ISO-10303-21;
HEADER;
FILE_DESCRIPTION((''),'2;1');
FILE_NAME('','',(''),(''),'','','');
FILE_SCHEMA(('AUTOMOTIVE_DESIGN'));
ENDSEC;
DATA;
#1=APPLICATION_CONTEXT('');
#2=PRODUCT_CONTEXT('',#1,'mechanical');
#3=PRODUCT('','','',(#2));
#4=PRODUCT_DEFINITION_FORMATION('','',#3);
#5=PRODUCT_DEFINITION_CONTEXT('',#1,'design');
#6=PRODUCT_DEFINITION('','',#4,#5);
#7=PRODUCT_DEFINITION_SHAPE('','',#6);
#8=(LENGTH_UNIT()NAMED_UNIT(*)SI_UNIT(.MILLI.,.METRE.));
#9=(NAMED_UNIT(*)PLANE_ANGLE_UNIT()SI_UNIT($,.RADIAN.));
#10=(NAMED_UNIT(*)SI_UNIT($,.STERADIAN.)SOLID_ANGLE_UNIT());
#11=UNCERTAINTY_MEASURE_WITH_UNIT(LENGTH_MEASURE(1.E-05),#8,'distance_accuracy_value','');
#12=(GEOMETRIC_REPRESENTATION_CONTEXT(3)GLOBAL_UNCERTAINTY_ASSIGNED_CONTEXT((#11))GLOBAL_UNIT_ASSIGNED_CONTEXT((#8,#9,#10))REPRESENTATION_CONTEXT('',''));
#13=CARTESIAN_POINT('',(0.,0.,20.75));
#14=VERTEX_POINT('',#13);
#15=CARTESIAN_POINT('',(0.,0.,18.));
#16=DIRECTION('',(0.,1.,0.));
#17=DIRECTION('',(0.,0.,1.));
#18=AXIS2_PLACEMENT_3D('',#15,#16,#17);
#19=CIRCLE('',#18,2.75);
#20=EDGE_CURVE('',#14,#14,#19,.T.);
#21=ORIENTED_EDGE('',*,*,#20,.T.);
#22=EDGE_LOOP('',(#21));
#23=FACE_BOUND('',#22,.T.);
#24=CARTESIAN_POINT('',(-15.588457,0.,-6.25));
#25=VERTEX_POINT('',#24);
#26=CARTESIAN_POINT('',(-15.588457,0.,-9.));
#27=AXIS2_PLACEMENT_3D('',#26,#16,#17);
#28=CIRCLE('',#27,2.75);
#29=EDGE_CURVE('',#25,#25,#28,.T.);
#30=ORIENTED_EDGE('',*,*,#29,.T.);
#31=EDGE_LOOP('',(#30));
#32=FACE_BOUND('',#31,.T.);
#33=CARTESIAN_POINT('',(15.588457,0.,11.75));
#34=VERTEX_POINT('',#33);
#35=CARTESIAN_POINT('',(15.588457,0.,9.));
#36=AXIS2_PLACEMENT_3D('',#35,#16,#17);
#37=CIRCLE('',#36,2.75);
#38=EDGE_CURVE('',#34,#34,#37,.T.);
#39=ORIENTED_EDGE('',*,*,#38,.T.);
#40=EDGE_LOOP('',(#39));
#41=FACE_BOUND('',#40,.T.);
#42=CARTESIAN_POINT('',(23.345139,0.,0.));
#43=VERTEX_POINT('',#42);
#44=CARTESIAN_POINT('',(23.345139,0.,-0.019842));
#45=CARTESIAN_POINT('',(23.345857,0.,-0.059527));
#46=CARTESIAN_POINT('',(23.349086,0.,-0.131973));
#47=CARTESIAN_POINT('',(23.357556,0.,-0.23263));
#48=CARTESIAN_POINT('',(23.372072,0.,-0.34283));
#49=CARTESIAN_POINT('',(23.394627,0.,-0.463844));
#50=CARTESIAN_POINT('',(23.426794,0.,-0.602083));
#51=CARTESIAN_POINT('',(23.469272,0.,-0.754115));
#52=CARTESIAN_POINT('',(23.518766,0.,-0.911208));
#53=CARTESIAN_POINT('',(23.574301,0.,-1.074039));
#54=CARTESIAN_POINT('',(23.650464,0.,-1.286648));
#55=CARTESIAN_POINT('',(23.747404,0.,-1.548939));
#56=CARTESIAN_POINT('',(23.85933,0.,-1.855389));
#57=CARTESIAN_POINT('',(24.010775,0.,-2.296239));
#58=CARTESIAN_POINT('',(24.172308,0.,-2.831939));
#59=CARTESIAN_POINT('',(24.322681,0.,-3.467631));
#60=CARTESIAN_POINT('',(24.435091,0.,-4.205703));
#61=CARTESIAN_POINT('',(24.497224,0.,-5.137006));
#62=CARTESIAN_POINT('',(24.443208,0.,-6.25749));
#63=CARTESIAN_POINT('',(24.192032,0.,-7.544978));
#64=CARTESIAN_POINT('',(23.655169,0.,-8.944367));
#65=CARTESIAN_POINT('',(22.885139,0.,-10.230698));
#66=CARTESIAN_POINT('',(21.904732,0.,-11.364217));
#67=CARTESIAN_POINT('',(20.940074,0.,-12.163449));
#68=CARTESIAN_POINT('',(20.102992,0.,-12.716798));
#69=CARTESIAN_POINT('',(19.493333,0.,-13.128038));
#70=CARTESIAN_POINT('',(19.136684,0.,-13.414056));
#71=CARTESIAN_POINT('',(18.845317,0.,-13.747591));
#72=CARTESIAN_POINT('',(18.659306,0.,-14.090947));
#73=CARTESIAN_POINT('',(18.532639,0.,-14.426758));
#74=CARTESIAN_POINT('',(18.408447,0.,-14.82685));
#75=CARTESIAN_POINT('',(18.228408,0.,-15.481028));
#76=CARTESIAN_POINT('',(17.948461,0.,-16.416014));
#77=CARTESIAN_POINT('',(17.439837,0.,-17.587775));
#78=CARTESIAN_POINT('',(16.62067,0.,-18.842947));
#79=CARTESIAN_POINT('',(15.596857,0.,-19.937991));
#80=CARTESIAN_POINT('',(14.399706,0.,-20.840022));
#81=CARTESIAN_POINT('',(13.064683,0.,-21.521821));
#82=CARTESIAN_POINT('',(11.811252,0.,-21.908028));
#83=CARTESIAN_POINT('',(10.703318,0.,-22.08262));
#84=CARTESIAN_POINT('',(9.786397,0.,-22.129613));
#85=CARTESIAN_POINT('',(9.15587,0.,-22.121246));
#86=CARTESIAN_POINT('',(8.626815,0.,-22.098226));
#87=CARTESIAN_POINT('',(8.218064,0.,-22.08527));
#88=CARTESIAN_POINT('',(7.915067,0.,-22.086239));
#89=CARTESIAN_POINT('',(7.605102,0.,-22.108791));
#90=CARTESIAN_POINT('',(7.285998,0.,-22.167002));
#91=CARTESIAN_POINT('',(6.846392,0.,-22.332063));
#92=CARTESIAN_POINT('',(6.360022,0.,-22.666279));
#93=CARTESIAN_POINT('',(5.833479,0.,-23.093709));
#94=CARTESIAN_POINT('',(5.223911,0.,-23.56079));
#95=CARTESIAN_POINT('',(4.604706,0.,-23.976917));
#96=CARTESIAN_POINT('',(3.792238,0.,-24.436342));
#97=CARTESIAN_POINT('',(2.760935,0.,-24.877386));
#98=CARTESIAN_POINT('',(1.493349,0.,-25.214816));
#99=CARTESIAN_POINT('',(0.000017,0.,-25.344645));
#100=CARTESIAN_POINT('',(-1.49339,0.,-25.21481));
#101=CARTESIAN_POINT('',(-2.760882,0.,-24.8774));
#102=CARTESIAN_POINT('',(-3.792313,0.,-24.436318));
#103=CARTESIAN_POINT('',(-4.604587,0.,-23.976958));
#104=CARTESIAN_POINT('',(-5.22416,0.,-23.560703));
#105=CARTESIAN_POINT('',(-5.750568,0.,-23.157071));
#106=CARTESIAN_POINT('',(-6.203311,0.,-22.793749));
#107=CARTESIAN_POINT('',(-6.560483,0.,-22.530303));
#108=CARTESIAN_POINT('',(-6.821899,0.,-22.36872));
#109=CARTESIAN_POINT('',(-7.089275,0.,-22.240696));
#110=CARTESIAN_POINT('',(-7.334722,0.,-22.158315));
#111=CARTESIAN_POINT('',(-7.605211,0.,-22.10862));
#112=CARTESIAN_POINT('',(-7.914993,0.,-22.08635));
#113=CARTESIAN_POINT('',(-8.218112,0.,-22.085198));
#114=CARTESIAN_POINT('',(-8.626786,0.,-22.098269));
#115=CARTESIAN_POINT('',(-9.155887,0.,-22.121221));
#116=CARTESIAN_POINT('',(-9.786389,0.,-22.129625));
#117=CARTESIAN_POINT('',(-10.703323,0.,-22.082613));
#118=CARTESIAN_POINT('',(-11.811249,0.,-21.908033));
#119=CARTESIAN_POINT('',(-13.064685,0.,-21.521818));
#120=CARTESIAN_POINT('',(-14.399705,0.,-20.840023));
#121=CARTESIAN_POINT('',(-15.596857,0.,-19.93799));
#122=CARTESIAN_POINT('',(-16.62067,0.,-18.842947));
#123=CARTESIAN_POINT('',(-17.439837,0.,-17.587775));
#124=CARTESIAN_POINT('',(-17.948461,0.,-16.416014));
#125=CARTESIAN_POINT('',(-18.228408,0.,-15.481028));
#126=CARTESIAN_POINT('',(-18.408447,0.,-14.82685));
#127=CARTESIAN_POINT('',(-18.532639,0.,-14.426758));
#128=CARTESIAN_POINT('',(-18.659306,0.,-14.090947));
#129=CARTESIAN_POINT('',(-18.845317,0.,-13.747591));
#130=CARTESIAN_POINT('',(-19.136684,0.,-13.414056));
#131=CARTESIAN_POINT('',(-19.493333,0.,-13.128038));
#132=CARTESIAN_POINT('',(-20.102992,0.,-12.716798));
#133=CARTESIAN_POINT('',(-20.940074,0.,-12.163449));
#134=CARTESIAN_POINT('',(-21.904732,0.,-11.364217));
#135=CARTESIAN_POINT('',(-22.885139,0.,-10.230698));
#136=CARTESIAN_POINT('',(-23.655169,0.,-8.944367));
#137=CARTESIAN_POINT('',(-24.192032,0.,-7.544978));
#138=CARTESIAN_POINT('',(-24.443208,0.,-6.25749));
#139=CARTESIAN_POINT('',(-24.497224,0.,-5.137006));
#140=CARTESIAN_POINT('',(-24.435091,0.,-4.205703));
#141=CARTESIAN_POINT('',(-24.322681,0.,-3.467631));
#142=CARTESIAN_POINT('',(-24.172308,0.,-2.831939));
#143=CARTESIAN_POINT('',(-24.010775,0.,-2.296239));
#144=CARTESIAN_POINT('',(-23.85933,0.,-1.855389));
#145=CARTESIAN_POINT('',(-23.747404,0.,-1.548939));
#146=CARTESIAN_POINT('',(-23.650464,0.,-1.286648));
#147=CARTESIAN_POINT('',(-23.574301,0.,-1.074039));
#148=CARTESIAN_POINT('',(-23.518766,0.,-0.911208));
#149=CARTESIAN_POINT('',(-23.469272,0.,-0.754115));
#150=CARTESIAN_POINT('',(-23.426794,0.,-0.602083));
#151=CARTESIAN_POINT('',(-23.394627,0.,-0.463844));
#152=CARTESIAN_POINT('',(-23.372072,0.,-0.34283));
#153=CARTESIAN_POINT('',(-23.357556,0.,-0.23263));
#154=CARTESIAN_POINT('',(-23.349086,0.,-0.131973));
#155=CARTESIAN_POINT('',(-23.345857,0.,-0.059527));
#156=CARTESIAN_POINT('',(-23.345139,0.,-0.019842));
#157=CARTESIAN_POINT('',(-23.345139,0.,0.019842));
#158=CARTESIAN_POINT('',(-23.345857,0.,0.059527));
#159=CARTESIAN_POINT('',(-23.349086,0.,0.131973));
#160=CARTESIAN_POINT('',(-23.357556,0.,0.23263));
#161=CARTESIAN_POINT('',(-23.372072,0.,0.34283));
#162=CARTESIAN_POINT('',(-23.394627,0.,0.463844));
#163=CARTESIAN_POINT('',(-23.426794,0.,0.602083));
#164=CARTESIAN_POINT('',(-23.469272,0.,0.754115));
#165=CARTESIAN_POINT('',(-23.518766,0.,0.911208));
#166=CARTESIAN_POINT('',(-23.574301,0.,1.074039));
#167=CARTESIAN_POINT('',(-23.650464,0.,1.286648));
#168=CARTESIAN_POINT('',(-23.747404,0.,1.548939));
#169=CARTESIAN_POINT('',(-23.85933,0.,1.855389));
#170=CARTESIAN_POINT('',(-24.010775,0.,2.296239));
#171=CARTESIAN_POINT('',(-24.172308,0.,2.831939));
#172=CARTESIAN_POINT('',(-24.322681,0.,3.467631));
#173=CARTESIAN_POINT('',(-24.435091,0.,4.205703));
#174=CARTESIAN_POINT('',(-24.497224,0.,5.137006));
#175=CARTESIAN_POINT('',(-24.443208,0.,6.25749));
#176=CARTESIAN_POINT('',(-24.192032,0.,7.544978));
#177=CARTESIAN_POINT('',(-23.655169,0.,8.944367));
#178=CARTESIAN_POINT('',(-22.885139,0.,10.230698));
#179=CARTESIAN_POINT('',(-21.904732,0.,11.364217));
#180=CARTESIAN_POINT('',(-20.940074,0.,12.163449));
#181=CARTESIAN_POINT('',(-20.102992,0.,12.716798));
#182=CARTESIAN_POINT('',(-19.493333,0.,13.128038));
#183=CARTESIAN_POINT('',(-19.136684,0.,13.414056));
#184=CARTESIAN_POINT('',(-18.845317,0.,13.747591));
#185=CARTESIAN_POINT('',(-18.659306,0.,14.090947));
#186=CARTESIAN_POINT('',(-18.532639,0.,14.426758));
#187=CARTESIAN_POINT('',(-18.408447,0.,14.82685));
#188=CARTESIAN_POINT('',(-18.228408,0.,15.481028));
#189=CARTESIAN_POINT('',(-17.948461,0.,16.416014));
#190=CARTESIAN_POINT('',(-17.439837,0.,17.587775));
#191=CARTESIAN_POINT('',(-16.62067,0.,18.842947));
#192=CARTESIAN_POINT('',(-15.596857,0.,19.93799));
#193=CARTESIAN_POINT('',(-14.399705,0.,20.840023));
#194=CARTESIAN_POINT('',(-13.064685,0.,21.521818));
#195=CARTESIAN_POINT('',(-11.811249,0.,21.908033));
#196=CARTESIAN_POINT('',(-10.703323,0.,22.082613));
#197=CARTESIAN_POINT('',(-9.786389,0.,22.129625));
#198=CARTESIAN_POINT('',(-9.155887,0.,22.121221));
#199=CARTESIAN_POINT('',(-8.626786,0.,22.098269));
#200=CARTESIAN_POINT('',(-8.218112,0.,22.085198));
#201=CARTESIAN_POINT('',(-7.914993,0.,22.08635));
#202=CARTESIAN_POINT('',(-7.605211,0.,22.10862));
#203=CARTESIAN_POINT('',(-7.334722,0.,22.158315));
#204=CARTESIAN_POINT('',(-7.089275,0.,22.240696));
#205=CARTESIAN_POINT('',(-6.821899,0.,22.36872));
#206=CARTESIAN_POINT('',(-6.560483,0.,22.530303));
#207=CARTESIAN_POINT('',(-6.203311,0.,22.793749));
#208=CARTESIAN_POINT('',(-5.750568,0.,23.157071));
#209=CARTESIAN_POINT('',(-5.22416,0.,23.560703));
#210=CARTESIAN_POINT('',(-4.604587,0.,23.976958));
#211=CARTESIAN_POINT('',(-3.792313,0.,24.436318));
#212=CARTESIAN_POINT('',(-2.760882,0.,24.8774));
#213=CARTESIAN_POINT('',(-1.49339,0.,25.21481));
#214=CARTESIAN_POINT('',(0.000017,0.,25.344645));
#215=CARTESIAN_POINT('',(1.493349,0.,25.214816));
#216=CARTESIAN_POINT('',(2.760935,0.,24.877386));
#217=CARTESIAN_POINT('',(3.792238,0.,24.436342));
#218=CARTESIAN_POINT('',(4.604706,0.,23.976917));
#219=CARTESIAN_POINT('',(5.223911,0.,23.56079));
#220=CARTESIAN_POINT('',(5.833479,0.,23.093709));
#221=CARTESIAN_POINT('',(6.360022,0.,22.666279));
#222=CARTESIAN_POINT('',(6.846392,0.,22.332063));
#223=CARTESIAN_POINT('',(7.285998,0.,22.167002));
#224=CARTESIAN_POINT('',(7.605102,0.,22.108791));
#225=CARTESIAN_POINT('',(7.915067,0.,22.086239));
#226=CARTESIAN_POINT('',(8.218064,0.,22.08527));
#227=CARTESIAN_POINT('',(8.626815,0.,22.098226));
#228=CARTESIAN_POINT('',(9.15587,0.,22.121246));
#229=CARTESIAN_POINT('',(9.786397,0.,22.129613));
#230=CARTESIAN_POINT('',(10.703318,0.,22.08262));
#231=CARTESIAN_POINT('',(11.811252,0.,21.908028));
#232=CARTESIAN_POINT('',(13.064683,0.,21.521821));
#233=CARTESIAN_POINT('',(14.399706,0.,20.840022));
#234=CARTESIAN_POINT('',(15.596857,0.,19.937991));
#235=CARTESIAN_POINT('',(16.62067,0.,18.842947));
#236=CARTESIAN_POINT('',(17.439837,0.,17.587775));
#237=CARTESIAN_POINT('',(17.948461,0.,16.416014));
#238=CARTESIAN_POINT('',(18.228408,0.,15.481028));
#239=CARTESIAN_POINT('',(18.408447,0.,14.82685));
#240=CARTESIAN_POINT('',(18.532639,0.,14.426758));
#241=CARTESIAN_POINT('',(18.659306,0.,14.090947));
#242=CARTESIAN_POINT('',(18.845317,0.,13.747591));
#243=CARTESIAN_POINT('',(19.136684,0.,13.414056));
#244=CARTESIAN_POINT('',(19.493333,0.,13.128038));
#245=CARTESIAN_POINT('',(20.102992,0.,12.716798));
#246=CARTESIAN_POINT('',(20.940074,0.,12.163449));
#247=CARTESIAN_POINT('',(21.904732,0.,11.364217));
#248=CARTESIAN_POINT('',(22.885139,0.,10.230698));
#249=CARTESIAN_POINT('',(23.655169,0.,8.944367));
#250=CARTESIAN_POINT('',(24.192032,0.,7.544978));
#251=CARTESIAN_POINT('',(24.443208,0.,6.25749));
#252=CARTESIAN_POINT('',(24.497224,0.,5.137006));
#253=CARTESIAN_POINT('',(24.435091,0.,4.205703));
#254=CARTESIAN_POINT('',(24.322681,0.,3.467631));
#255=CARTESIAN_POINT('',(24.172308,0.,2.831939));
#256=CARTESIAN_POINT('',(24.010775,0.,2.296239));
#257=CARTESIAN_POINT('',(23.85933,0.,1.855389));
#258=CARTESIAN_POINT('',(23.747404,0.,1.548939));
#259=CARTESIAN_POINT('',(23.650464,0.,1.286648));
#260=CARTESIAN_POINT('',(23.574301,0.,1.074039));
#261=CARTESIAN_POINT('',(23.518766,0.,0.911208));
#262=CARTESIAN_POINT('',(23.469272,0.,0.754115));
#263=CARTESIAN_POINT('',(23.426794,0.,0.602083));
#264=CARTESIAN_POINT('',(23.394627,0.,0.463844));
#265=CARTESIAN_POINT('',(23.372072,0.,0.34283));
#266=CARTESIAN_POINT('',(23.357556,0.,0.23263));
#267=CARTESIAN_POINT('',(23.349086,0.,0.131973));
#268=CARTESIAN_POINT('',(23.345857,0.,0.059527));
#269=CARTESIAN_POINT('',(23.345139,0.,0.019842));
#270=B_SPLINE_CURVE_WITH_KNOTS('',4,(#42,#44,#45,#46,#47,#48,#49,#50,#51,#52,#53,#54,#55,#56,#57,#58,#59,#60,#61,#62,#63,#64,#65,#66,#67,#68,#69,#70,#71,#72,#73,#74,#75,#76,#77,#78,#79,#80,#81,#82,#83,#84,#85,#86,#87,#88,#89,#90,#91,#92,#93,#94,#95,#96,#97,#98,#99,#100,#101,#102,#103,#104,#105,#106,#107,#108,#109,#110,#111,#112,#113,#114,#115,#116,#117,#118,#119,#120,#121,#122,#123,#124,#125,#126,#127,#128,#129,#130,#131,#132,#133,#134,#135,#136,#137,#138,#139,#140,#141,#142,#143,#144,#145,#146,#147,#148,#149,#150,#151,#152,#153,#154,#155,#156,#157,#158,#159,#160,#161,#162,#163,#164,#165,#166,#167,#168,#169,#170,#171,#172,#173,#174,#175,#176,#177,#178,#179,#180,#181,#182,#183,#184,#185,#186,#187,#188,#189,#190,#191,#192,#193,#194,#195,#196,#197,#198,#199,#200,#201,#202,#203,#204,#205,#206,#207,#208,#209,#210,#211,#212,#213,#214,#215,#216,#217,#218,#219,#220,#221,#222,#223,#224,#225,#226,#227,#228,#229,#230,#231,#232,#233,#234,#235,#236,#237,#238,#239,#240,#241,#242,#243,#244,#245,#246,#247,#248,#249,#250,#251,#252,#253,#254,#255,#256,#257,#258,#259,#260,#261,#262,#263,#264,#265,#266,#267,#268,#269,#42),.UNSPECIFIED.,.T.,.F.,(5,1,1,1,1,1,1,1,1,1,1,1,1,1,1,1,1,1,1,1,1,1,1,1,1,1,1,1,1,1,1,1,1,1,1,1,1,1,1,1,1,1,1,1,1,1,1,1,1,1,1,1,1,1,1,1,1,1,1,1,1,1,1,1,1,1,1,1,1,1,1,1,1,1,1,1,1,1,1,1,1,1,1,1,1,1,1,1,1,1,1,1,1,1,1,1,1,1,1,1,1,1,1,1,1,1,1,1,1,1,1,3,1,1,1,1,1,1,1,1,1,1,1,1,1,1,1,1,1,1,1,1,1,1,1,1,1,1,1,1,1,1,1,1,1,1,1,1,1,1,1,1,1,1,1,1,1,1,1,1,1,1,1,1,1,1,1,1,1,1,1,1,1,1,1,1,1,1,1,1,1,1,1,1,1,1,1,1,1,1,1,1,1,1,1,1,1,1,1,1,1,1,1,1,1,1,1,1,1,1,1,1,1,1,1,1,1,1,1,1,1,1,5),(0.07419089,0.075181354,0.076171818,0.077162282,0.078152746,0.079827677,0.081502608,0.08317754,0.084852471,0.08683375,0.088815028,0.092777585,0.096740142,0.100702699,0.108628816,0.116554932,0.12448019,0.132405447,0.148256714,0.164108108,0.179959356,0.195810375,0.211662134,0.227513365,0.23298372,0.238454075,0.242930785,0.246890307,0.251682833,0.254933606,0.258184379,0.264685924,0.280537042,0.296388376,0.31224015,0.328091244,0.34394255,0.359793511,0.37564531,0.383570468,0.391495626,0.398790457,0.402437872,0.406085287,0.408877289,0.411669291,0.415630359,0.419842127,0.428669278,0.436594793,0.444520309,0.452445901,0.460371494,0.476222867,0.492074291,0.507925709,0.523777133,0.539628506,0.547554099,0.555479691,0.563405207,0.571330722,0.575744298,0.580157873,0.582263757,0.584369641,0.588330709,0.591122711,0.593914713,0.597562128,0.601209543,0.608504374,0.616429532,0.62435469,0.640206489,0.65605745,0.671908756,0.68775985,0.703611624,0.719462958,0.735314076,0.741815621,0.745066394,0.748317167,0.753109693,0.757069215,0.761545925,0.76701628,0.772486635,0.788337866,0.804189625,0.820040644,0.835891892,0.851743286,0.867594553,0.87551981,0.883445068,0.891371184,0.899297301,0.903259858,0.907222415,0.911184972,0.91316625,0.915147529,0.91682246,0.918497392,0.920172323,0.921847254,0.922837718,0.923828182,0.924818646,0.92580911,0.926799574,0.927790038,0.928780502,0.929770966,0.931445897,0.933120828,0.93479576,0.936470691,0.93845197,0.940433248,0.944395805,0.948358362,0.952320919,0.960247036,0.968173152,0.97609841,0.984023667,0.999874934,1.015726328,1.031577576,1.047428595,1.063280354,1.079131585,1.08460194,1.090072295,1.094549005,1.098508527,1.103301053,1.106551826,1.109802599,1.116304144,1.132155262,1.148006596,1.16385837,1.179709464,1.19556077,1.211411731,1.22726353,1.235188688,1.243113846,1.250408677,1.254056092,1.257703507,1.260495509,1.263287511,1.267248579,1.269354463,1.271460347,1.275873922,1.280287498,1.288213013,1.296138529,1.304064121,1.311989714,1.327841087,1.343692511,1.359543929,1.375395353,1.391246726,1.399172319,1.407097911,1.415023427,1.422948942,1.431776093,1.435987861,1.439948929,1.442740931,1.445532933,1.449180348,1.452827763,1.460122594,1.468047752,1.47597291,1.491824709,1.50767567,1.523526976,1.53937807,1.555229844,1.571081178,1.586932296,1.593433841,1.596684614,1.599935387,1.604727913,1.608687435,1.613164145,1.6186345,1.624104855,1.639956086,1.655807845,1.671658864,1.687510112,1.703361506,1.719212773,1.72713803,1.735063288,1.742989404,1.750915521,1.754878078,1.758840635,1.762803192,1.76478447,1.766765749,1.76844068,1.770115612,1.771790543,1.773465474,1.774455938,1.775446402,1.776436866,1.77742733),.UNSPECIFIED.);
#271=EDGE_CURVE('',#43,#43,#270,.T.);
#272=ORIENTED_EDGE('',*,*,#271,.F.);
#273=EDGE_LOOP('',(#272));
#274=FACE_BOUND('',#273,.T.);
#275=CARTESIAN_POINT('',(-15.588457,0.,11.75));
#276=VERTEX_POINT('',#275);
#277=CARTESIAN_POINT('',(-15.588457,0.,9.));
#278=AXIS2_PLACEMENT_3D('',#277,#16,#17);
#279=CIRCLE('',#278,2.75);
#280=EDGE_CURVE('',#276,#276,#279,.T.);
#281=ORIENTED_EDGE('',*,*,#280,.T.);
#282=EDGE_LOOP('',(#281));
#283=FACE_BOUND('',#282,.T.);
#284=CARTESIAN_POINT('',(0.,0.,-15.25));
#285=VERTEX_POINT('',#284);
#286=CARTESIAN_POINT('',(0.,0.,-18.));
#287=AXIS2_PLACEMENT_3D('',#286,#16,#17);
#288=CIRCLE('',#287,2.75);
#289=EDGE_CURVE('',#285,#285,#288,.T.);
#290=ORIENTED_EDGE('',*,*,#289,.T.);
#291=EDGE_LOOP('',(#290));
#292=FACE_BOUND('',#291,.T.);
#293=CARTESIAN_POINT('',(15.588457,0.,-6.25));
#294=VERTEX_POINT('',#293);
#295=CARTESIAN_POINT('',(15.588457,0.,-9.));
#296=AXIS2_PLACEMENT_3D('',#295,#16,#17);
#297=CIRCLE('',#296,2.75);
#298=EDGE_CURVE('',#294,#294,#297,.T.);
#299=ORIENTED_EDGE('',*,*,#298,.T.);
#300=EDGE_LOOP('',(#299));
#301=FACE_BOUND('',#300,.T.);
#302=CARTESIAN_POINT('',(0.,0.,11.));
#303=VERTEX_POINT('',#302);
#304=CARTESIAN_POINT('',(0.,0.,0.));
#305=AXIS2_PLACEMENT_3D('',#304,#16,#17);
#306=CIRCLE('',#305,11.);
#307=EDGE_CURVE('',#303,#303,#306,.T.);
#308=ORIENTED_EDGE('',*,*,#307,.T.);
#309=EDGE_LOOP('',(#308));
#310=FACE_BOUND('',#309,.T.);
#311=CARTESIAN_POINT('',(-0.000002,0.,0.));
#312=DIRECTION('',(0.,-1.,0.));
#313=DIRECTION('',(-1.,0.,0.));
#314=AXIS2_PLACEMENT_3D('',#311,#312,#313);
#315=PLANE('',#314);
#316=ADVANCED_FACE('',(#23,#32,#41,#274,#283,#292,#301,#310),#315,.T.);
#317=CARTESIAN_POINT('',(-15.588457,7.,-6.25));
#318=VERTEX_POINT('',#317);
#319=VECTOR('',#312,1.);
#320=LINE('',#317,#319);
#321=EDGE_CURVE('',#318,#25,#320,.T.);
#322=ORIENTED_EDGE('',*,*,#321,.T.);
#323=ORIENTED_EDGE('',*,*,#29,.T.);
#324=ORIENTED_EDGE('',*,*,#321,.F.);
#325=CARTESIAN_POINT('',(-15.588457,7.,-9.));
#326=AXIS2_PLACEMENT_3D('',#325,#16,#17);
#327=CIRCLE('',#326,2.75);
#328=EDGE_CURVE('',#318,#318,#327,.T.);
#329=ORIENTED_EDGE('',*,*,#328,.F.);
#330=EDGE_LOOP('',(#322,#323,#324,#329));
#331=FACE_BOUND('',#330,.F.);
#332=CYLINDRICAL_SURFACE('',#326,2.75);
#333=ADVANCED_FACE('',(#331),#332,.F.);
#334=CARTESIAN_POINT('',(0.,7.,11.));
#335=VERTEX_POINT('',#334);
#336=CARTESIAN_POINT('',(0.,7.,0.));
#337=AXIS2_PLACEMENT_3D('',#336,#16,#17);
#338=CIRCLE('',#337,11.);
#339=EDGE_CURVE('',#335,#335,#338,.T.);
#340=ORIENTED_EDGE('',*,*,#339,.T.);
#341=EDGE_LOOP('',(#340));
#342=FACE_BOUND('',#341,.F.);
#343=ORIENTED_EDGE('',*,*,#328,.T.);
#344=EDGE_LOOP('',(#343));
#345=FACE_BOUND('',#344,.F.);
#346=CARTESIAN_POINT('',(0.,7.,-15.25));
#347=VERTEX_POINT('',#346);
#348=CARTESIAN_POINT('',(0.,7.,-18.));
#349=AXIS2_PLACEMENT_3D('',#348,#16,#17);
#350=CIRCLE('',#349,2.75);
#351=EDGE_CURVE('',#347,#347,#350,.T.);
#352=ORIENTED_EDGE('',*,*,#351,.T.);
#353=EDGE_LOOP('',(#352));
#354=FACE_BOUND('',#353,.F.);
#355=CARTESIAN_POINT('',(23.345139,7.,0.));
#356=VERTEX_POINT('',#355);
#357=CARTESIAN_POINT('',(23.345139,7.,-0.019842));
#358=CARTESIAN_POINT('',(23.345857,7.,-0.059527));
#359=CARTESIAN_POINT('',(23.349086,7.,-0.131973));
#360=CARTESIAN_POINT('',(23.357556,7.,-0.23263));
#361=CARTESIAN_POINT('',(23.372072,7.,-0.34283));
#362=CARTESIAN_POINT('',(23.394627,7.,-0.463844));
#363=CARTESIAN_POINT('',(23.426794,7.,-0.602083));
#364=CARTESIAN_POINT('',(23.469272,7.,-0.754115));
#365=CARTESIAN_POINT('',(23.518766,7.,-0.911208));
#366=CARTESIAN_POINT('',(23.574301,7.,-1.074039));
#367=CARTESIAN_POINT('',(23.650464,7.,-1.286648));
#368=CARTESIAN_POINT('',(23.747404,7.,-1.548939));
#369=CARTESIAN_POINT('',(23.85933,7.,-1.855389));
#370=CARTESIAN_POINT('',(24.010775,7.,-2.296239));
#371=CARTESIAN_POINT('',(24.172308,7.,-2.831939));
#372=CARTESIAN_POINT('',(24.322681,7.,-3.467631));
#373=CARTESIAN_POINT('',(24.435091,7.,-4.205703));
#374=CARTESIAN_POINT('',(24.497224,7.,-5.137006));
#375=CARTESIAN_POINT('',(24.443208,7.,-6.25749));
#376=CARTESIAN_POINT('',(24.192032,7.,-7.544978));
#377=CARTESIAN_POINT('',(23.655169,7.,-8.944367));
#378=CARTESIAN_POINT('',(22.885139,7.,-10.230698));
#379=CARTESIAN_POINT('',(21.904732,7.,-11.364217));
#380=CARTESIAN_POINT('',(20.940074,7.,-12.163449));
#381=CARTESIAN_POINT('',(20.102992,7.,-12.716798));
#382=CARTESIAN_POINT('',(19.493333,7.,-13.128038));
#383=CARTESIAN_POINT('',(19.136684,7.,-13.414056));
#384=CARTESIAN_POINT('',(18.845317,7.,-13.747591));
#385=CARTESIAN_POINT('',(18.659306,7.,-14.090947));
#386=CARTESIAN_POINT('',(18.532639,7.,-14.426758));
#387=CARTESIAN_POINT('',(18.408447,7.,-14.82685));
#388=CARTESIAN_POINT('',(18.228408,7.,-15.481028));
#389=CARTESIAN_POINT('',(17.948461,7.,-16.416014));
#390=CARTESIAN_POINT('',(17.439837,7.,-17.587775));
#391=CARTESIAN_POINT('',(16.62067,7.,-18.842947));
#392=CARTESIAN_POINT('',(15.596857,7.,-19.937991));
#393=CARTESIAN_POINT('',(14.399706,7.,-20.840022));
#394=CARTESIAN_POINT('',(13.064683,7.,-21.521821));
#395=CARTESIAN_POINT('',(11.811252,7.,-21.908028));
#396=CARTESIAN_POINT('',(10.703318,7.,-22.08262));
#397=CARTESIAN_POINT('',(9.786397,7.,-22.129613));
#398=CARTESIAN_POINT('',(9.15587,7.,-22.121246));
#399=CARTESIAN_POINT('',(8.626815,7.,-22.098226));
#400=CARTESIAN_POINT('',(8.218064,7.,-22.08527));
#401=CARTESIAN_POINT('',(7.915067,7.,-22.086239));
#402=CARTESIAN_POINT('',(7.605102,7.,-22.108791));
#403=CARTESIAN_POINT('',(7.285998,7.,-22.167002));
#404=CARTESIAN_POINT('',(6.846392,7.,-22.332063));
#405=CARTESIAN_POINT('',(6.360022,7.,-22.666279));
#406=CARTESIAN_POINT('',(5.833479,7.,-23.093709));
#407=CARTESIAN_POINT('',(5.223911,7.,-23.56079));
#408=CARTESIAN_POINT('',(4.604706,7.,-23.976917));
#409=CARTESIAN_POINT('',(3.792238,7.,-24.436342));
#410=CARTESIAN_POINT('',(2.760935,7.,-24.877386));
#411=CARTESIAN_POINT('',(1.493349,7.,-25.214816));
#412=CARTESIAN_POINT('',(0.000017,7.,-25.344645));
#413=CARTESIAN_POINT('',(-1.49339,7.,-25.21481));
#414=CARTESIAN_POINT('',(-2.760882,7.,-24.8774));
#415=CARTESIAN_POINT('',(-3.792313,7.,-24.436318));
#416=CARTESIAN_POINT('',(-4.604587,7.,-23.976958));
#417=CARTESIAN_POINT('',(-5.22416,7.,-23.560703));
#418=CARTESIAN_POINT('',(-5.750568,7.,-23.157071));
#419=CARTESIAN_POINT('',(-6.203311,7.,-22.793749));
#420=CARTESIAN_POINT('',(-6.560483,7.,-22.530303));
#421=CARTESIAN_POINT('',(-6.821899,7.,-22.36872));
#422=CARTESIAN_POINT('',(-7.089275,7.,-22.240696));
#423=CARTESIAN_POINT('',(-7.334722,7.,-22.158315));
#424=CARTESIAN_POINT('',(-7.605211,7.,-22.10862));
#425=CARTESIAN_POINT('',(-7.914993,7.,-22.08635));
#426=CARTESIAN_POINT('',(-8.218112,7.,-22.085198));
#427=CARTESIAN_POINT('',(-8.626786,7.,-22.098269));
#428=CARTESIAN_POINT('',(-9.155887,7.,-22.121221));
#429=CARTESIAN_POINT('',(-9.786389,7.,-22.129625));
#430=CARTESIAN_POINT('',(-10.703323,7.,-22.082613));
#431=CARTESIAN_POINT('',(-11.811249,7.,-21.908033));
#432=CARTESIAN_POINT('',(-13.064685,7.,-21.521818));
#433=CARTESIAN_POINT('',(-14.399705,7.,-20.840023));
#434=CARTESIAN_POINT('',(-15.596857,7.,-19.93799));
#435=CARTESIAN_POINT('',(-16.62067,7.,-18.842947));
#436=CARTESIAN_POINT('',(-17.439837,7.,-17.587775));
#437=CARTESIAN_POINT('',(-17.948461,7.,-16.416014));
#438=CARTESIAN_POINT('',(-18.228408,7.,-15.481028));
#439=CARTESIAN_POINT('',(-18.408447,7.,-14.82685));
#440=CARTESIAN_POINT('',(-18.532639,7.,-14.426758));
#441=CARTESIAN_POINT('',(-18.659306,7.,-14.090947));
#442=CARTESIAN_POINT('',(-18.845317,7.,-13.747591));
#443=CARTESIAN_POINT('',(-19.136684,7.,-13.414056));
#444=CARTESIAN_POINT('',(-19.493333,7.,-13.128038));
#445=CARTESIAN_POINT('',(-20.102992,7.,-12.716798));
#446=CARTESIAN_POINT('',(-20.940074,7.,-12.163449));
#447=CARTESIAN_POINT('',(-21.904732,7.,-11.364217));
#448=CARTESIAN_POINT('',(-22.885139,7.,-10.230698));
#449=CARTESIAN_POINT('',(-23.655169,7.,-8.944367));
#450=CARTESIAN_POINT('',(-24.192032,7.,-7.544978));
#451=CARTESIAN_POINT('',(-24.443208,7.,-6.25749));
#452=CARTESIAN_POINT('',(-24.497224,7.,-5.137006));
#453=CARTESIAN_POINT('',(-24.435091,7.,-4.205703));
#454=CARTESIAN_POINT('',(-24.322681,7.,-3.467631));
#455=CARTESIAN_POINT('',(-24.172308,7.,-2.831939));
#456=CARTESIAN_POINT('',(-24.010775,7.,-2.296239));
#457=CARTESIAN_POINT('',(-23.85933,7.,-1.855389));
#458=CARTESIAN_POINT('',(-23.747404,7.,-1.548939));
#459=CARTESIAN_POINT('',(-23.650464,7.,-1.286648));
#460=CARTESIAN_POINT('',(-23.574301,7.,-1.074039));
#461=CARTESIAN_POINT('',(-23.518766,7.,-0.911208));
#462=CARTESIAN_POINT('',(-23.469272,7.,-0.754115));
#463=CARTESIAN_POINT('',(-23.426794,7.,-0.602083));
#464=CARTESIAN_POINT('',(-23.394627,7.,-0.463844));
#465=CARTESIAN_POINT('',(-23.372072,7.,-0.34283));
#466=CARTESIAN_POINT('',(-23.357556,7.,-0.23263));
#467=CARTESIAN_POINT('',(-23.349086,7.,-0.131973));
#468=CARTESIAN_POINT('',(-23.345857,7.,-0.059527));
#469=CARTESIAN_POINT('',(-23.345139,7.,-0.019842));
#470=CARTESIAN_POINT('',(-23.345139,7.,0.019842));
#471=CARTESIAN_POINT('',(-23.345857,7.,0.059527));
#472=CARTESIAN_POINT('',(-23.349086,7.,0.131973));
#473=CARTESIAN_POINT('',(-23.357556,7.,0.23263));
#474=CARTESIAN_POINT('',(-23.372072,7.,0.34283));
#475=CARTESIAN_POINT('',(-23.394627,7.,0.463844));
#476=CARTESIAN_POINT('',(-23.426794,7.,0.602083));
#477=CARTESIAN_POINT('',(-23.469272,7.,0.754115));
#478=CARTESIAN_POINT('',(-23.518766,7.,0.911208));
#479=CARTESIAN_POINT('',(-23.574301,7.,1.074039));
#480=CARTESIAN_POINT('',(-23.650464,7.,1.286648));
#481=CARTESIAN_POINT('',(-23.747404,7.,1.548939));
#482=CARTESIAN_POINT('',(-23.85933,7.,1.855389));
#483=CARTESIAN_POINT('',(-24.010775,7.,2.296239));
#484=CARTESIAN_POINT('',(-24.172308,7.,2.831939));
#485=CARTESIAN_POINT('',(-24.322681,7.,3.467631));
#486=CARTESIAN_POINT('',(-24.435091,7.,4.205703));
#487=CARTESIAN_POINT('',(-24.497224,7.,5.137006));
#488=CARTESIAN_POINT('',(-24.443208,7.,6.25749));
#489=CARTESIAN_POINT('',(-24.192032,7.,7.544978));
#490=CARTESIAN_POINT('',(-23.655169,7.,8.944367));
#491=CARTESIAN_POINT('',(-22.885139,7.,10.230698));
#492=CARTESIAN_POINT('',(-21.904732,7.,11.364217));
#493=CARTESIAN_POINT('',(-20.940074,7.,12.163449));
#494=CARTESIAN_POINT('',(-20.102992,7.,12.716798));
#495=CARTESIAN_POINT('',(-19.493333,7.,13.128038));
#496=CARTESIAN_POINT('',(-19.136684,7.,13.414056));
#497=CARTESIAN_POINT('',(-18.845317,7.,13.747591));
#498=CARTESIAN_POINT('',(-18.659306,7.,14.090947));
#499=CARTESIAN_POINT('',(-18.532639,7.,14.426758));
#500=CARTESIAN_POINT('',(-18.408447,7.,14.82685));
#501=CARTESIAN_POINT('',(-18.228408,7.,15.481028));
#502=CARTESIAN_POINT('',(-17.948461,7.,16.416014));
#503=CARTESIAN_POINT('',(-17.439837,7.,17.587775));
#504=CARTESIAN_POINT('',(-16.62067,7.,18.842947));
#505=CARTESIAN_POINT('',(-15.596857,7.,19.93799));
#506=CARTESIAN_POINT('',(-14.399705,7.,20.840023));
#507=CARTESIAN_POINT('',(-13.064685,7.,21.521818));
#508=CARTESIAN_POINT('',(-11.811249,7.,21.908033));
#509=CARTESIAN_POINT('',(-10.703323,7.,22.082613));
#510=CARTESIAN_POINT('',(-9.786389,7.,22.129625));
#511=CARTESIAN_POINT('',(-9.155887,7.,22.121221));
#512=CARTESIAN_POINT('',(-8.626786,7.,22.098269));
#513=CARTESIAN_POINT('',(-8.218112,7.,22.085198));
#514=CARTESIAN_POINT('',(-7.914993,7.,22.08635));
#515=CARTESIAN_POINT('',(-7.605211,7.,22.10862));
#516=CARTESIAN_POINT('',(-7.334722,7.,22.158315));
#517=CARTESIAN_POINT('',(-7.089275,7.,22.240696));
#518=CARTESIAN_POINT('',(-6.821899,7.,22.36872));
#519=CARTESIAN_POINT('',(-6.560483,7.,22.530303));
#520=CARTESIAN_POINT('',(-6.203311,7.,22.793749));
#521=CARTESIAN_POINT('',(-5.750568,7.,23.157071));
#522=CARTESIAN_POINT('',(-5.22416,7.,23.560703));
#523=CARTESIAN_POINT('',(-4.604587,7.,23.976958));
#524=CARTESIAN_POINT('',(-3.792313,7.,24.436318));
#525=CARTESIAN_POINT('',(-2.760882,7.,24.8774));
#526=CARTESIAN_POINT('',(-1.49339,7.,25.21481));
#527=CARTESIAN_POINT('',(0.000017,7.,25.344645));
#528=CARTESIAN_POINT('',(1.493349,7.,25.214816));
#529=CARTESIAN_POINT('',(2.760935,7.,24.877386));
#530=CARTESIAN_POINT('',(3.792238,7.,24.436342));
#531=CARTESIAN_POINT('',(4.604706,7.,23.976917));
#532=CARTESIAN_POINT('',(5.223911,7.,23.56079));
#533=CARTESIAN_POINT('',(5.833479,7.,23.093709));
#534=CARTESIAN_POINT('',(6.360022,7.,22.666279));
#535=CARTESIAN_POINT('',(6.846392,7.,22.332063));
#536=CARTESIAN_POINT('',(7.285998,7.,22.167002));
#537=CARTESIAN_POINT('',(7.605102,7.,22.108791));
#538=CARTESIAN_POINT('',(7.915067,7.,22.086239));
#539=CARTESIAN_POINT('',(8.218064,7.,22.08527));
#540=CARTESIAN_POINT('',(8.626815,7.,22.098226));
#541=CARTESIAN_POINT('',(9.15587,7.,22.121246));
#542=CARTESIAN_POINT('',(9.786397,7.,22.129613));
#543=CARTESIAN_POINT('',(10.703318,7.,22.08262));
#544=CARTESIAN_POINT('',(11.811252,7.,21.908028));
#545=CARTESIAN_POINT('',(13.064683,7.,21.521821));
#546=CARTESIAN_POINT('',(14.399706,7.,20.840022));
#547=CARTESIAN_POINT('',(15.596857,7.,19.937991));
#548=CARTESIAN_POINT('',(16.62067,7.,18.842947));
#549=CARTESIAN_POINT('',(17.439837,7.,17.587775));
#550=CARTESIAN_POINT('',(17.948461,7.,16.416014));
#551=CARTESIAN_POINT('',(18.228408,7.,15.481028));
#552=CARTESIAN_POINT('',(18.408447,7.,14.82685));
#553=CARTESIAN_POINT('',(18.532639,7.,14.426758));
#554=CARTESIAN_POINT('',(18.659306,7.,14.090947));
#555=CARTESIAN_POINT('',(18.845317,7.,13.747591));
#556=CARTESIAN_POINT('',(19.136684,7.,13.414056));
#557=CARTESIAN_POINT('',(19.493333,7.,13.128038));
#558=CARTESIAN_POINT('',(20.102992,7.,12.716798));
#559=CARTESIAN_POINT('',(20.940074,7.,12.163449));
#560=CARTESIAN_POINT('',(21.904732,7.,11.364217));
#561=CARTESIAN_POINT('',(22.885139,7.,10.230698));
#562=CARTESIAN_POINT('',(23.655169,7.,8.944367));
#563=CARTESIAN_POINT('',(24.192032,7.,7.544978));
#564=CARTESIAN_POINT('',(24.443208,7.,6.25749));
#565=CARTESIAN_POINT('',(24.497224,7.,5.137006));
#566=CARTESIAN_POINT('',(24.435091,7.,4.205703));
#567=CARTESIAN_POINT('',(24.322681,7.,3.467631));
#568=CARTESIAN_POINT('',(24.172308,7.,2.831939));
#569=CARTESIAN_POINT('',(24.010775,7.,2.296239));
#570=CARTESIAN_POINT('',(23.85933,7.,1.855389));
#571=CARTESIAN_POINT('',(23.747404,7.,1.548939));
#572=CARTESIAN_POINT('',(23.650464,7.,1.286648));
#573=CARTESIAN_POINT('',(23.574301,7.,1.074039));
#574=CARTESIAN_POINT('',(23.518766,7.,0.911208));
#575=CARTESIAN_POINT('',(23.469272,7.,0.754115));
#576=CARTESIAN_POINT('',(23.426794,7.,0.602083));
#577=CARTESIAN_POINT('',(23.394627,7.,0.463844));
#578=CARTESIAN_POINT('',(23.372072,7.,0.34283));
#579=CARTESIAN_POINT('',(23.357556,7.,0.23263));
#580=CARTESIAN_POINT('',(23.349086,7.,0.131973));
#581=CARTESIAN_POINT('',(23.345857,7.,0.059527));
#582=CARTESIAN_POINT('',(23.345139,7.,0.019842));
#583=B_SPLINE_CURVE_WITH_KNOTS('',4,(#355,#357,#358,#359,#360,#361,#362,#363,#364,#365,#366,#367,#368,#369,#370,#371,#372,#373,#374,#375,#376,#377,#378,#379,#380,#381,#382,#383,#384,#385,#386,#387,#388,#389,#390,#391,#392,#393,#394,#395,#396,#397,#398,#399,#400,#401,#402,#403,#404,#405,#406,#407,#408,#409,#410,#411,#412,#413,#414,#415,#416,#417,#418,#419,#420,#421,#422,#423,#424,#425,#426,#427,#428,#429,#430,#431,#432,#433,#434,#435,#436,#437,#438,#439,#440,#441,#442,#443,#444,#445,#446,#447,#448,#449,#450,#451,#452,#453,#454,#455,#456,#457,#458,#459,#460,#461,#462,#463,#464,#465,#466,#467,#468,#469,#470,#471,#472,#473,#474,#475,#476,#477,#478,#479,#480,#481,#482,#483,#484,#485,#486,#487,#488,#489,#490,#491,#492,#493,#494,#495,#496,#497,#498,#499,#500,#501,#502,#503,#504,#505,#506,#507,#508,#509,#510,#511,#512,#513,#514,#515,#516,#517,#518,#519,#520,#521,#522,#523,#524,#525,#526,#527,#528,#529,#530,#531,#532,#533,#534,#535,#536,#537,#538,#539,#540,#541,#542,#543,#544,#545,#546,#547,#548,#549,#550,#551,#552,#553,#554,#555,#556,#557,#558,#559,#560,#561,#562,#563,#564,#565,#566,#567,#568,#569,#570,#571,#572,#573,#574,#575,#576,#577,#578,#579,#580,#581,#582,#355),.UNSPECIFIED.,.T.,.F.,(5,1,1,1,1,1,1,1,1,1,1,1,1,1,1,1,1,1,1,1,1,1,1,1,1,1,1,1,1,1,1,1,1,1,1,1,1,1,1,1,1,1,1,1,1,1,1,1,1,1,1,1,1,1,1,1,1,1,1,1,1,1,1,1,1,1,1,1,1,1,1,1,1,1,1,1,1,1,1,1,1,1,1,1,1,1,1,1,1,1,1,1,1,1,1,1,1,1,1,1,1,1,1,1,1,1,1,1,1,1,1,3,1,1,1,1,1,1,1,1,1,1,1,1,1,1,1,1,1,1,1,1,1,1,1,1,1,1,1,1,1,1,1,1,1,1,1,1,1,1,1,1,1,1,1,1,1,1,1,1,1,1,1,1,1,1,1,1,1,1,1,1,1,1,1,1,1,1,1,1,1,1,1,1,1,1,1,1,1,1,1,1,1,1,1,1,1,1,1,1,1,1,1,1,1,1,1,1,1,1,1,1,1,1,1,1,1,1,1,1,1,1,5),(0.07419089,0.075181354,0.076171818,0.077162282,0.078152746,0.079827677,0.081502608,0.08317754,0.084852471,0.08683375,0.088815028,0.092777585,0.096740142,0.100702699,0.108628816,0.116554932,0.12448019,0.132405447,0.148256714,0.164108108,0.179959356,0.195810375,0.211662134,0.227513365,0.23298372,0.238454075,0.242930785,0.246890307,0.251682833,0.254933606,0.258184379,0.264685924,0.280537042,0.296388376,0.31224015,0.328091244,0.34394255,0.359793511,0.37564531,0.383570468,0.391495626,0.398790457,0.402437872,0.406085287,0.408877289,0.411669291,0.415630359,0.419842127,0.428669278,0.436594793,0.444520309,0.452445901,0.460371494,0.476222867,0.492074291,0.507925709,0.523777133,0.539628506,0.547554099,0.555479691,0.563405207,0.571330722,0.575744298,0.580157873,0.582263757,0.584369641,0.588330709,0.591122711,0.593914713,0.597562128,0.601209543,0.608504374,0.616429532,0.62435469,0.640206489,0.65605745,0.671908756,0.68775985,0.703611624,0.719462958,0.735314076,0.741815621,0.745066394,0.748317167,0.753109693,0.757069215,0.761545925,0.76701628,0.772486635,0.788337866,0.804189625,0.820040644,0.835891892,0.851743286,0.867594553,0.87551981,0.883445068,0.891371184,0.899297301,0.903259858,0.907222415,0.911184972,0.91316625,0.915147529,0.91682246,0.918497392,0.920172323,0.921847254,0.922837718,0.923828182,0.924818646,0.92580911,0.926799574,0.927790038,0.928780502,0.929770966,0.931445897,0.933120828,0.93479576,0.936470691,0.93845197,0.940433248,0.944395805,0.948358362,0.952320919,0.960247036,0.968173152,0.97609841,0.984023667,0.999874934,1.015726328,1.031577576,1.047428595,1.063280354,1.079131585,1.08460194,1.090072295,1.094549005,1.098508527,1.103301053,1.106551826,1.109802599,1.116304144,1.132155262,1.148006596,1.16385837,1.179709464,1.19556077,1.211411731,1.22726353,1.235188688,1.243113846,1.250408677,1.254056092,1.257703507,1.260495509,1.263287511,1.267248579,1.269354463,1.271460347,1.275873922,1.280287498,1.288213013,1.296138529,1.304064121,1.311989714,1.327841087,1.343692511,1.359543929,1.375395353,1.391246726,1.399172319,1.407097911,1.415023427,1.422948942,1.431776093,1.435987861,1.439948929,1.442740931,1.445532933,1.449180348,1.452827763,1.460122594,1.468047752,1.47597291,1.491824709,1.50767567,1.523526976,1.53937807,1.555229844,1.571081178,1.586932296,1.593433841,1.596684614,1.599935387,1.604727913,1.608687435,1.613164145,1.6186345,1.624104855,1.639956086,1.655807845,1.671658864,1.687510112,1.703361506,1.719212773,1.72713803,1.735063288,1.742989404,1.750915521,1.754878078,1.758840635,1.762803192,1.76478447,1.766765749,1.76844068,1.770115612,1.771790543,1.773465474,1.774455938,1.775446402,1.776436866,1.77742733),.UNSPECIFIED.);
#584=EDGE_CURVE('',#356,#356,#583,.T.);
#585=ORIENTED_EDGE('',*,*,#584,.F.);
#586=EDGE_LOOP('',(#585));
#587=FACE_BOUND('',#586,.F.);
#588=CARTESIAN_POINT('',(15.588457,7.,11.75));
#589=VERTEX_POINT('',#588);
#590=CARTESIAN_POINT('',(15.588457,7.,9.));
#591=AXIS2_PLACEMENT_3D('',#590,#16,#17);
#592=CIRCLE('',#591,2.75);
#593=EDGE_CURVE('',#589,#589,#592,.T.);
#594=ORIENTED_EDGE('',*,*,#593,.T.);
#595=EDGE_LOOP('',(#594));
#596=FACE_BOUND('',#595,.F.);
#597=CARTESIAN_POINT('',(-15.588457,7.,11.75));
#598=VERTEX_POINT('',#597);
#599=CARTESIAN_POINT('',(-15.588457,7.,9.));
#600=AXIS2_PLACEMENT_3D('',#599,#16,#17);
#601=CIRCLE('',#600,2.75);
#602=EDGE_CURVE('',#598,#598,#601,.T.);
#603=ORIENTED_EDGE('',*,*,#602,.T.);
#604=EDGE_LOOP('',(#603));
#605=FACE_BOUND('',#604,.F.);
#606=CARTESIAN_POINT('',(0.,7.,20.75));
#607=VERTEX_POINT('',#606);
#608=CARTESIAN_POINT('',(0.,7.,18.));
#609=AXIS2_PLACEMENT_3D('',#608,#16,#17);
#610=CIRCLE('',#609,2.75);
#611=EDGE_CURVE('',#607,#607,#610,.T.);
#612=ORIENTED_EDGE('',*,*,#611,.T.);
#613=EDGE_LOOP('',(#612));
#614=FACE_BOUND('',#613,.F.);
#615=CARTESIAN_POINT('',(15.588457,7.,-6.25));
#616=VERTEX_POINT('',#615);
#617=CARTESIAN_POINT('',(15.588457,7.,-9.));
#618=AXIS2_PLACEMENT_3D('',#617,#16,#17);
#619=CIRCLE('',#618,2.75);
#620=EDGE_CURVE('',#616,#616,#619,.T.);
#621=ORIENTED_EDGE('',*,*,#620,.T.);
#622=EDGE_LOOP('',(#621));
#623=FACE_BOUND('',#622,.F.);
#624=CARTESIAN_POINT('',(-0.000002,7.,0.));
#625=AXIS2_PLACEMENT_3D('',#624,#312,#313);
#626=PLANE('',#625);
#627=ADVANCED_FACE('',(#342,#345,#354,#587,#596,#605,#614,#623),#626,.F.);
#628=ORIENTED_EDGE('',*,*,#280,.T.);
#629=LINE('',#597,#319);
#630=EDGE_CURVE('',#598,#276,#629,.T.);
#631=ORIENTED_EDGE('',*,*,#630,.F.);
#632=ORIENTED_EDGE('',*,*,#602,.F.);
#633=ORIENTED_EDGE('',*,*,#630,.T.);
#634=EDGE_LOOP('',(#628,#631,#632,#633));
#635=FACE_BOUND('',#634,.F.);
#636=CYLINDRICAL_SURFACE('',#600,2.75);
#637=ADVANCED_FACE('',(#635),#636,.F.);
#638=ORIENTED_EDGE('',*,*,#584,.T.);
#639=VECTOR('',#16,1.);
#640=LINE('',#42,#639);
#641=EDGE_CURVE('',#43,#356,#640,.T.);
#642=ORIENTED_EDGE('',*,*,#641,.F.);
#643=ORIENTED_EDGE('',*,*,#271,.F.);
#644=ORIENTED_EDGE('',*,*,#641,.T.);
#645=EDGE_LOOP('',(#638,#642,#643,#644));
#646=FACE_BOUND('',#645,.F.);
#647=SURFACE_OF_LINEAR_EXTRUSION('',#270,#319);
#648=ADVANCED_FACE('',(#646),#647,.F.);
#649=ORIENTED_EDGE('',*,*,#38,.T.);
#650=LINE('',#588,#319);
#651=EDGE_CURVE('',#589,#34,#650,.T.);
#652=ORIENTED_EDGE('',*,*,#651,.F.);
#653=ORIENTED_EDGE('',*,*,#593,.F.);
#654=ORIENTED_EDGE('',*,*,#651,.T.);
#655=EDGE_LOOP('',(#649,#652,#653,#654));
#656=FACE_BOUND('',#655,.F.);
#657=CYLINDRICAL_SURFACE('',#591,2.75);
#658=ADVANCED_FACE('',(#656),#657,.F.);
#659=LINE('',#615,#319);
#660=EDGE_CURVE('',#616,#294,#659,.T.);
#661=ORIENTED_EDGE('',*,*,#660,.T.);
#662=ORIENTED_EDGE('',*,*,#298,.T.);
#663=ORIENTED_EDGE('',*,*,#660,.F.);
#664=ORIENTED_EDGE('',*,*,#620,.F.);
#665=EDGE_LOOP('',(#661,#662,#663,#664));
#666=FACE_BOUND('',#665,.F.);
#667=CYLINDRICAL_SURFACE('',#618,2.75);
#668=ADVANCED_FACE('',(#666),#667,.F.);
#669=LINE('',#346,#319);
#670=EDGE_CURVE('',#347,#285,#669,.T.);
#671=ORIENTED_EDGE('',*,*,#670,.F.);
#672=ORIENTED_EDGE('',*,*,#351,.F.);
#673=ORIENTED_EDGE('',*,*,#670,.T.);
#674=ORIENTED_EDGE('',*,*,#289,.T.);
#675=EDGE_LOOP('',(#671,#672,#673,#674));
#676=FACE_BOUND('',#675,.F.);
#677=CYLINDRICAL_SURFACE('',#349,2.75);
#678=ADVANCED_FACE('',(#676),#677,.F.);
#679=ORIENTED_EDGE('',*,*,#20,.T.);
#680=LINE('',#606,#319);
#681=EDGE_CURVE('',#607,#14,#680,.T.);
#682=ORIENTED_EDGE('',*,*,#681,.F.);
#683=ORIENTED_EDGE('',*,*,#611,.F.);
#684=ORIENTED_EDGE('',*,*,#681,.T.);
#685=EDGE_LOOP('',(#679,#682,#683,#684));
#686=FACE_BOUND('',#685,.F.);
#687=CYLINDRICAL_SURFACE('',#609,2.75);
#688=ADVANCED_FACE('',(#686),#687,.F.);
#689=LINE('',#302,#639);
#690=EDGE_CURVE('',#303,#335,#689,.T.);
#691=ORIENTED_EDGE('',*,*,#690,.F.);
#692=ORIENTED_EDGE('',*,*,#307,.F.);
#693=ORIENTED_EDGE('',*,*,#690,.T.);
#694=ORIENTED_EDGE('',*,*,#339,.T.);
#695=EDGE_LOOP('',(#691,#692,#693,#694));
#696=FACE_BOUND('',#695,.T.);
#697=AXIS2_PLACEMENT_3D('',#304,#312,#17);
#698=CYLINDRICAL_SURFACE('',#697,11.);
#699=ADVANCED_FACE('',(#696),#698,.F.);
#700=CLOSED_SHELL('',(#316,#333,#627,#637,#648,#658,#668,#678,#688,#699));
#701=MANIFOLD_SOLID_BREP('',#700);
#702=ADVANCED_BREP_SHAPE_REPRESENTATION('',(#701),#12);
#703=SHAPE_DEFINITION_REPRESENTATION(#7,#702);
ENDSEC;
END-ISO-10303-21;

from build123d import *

# Parameters (mm, degrees)
SKETCH1_R           = 11
BOSS_EXTRUDE1_DEPTH = 7
SKETCH2_R           = 2.75
CUT_EXTRUDE1_DEPTH  = 36.882862426


with BuildPart() as part:
    # Sketch1 → Boss-Extrude1 (new body)
    with BuildSketch(Plane(origin=(0, 0, 0), x_dir=(1, 0, 0), z_dir=(0, 1, 0))):
        with BuildLine():
            add(Edge.make_bspline(
                [(23.34513946, 0), (23.34513946, -0.019841849), (23.345857024, -0.059526539), (23.349086064, -0.131972669), (23.357556048, -0.232630023), (23.372071983, -0.342829816), (23.394627325, -0.463844292), (23.42679411, -0.602083409), (23.469272032, -0.754115108), (23.518766494, -0.911207547), (23.574301258, -1.074038595), (23.650463686, -1.286648292), (23.747403521, -1.548939367), (23.859330357, -1.855388562), (24.010775252, -2.296239437), (24.172307839, -2.831938769), (24.322680796, -3.467630655), (24.43509115, -4.205703258), (24.49722378, -5.137006136), (24.443208092, -6.257490487), (24.192031764, -7.544978102), (23.655168641, -8.944366843), (22.885138777, -10.230698218), (21.904732121, -11.364217407), (20.940073548, -12.163449269), (20.10299199, -12.716798247), (19.493333172, -13.128038299), (19.136683847, -13.414056341), (18.845316969, -13.747591241), (18.659306345, -14.090946802), (18.532638856, -14.426757937), (18.408446796, -14.826850067), (18.228407959, -15.481027869), (17.948461455, -16.416013941), (17.439836685, -17.587775117), (16.620670211, -18.84294683), (15.596856575, -19.937990999), (14.399706124, -20.840021851), (13.064682854, -21.521820777), (11.811251526, -21.908028313), (10.703318085, -22.082620055), (9.786396812, -22.129613288), (9.155870124, -22.121246094), (8.626814751, -22.098225929), (8.218064234, -22.08526951), (7.915067374, -22.086238639), (7.605101517, -22.10879134), (7.285997765, -22.167002323), (6.846391649, -22.332062806), (6.360022198, -22.666279074), (5.833479317, -23.093709021), (5.223911343, -23.560790037), (4.604706463, -23.976916548), (3.792237954, -24.43634194), (2.760935396, -24.8773862), (1.493349134, -25.214815983), (1.7353e-05, -25.344645275), (-1.493389976, -25.214809826), (-2.760882247, -24.877400075), (-3.792312658, -24.43631799), (-4.604587047, -23.97695782), (-5.224160138, -23.560702949), (-5.75056756, -23.157070774), (-6.203310659, -22.793749052), (-6.560482534, -22.530303062), (-6.821899181, -22.368719533), (-7.089275116, -22.240696292), (-7.334721546, -22.158314502), (-7.605211336, -22.108620497), (-7.914993021, -22.086350017), (-8.218112322, -22.085198339), (-8.626785765, -22.098268724), (-9.155886973, -22.121221238), (-9.786388709, -22.12962524), (-10.703322745, -22.082613184), (-11.811248592, -21.90803264), (-13.06468466, -21.521818113), (-14.399705093, -20.840023372), (-15.596857207, -19.937990067), (-16.620669798, -18.84294744), (-17.439836994, -17.587774662), (-17.948461244, -16.416014251), (-18.228408078, -15.481027693), (-18.408446741, -14.826850149), (-18.532638885, -14.426757895), (-18.65930633, -14.090946825), (-18.845316978, -13.747591228), (-19.136683842, -13.414056349), (-19.493333175, -13.128038294), (-20.102991988, -12.71679825), (-20.94007355, -12.163449267), (-21.90473212, -11.364217408), (-22.885138778, -10.230698216), (-23.655168641, -8.944366843), (-24.192031764, -7.544978102), (-24.443208092, -6.257490486), (-24.49722378, -5.137006136), (-24.43509115, -4.205703258), (-24.322680796, -3.467630654), (-24.172307839, -2.831938769), (-24.010775253, -2.296239437), (-23.859330357, -1.855388561), (-23.747403521, -1.548939367), (-23.650463686, -1.286648292), (-23.574301258, -1.074038595), (-23.518766494, -0.911207546), (-23.469272032, -0.754115107), (-23.42679411, -0.602083408), (-23.394627325, -0.463844292), (-23.372071983, -0.342829816), (-23.357556048, -0.232630022), (-23.349086064, -0.131972669), (-23.345857024, -0.059526539), (-23.34513946, -0.019841849), (-23.34513946, 0)],
                knots=[0.07419089, 0.07419089, 0.07419089, 0.07419089, 0.07419089, 0.075181354, 0.076171818, 0.077162282, 0.078152746, 0.079827677, 0.081502608, 0.08317754, 0.084852471, 0.08683375, 0.088815028, 0.092777585, 0.096740142, 0.100702699, 0.108628816, 0.116554932, 0.12448019, 0.132405447, 0.148256714, 0.164108108, 0.179959356, 0.195810375, 0.211662134, 0.227513365, 0.23298372, 0.238454075, 0.242930785, 0.246890307, 0.251682833, 0.254933606, 0.258184379, 0.264685924, 0.280537042, 0.296388376, 0.31224015, 0.328091244, 0.34394255, 0.359793511, 0.37564531, 0.383570468, 0.391495626, 0.398790457, 0.402437872, 0.406085287, 0.408877289, 0.411669291, 0.415630359, 0.419842127, 0.428669278, 0.436594793, 0.444520309, 0.452445901, 0.460371494, 0.476222867, 0.492074291, 0.507925709, 0.523777133, 0.539628506, 0.547554099, 0.555479691, 0.563405207, 0.571330722, 0.575744298, 0.580157873, 0.582263757, 0.584369641, 0.588330709, 0.591122711, 0.593914713, 0.597562128, 0.601209543, 0.608504374, 0.616429532, 0.62435469, 0.640206489, 0.65605745, 0.671908756, 0.68775985, 0.703611624, 0.719462958, 0.735314076, 0.741815621, 0.745066394, 0.748317167, 0.753109693, 0.757069215, 0.761545925, 0.76701628, 0.772486635, 0.788337866, 0.804189625, 0.820040644, 0.835891892, 0.851743286, 0.867594553, 0.87551981, 0.883445068, 0.891371184, 0.899297301, 0.903259858, 0.907222415, 0.911184972, 0.91316625, 0.915147529, 0.91682246, 0.918497392, 0.920172323, 0.921847254, 0.922837718, 0.923828182, 0.924818646, 0.92580911, 0.92580911, 0.92580911, 0.92580911, 0.92580911], degree=4))
            add(Edge.make_bspline(
                [(23.34513946, 0), (23.34513946, 0.019841849), (23.345857024, 0.059526539), (23.349086064, 0.131972669), (23.357556048, 0.232630023), (23.372071983, 0.342829816), (23.394627325, 0.463844292), (23.42679411, 0.602083408), (23.469272032, 0.754115108), (23.518766494, 0.911207546), (23.574301258, 1.074038595), (23.650463686, 1.286648292), (23.747403521, 1.548939367), (23.859330357, 1.855388562), (24.010775252, 2.296239437), (24.172307839, 2.831938769), (24.322680796, 3.467630654), (24.43509115, 4.205703258), (24.49722378, 5.137006136), (24.443208092, 6.257490486), (24.192031764, 7.544978102), (23.655168641, 8.944366843), (22.885138777, 10.230698217), (21.904732121, 11.364217407), (20.940073549, 12.163449269), (20.10299199, 12.716798247), (19.493333172, 13.128038299), (19.136683847, 13.414056341), (18.845316969, 13.747591241), (18.659306345, 14.090946802), (18.532638856, 14.426757937), (18.408446796, 14.826850067), (18.228407959, 15.481027868), (17.948461455, 16.416013941), (17.439836685, 17.587775117), (16.620670211, 18.84294683), (15.596856575, 19.937990998), (14.399706124, 20.84002185), (13.064682854, 21.521820776), (11.811251526, 21.908028312), (10.703318085, 22.082620055), (9.786396812, 22.129613288), (9.155870124, 22.121246094), (8.626814751, 22.098225929), (8.218064234, 22.08526951), (7.915067374, 22.086238639), (7.605101517, 22.10879134), (7.285997765, 22.167002323), (6.846391649, 22.332062806), (6.360022198, 22.666279074), (5.833479317, 23.093709021), (5.223911343, 23.560790037), (4.604706464, 23.976916548), (3.792237954, 24.43634194), (2.760935396, 24.8773862), (1.493349134, 25.214815983), (1.7353e-05, 25.344645274), (-1.493389976, 25.214809826), (-2.760882247, 24.877400075), (-3.792312658, 24.43631799), (-4.604587047, 23.97695782), (-5.224160137, 23.560702949), (-5.75056756, 23.157070774), (-6.203310659, 22.793749052), (-6.560482534, 22.530303062), (-6.821899181, 22.368719533), (-7.089275116, 22.240696292), (-7.334721546, 22.158314501), (-7.605211336, 22.108620497), (-7.914993021, 22.086350017), (-8.218112322, 22.085198339), (-8.626785764, 22.098268724), (-9.155886973, 22.121221238), (-9.786388709, 22.12962524), (-10.703322745, 22.082613184), (-11.811248592, 21.90803264), (-13.06468466, 21.521818113), (-14.399705092, 20.840023372), (-15.596857206, 19.937990067), (-16.620669798, 18.84294744), (-17.439836994, 17.587774663), (-17.948461244, 16.416014251), (-18.228408078, 15.481027693), (-18.408446741, 14.826850149), (-18.532638884, 14.426757895), (-18.65930633, 14.090946825), (-18.845316978, 13.747591228), (-19.136683842, 13.414056349), (-19.493333175, 13.128038294), (-20.102991988, 12.71679825), (-20.94007355, 12.163449267), (-21.90473212, 11.364217408), (-22.885138778, 10.230698217), (-23.655168641, 8.944366843), (-24.192031764, 7.544978102), (-24.443208092, 6.257490486), (-24.49722378, 5.137006136), (-24.43509115, 4.205703258), (-24.322680796, 3.467630654), (-24.172307839, 2.831938769), (-24.010775253, 2.296239437), (-23.859330357, 1.855388561), (-23.747403521, 1.548939367), (-23.650463686, 1.286648292), (-23.574301258, 1.074038595), (-23.518766494, 0.911207546), (-23.469272032, 0.754115107), (-23.42679411, 0.602083408), (-23.394627325, 0.463844292), (-23.372071983, 0.342829816), (-23.357556048, 0.232630022), (-23.349086064, 0.131972669), (-23.345857024, 0.059526539), (-23.34513946, 0.019841849), (-23.34513946, 0)],
                knots=[0.07419089, 0.07419089, 0.07419089, 0.07419089, 0.07419089, 0.075181354, 0.076171818, 0.077162282, 0.078152746, 0.079827677, 0.081502608, 0.08317754, 0.084852471, 0.08683375, 0.088815028, 0.092777585, 0.096740142, 0.100702699, 0.108628816, 0.116554932, 0.12448019, 0.132405447, 0.148256714, 0.164108108, 0.179959356, 0.195810375, 0.211662134, 0.227513365, 0.23298372, 0.238454075, 0.242930785, 0.246890307, 0.251682833, 0.254933606, 0.258184379, 0.264685924, 0.280537042, 0.296388376, 0.31224015, 0.328091244, 0.34394255, 0.359793511, 0.37564531, 0.383570468, 0.391495626, 0.398790457, 0.402437872, 0.406085287, 0.408877289, 0.411669291, 0.415630359, 0.419842127, 0.428669278, 0.436594793, 0.444520309, 0.452445901, 0.460371494, 0.476222867, 0.492074291, 0.507925709, 0.523777133, 0.539628506, 0.547554099, 0.555479691, 0.563405207, 0.571330722, 0.575744298, 0.580157873, 0.582263757, 0.584369641, 0.588330709, 0.591122711, 0.593914713, 0.597562128, 0.601209543, 0.608504374, 0.616429532, 0.62435469, 0.640206489, 0.65605745, 0.671908756, 0.68775985, 0.703611624, 0.719462958, 0.735314076, 0.741815621, 0.745066394, 0.748317167, 0.753109693, 0.757069215, 0.761545925, 0.76701628, 0.772486635, 0.788337866, 0.804189625, 0.820040644, 0.835891892, 0.851743286, 0.867594553, 0.87551981, 0.883445068, 0.891371184, 0.899297301, 0.903259858, 0.907222415, 0.911184972, 0.91316625, 0.915147529, 0.91682246, 0.918497392, 0.920172323, 0.921847254, 0.922837718, 0.923828182, 0.924818646, 0.92580911, 0.92580911, 0.92580911, 0.92580911, 0.92580911], degree=4))
        make_face()
        with Locations(Location((0, 0, 0), (0, 0, 270))):
            Circle(SKETCH1_R, mode=Mode.SUBTRACT)
    extrude(amount=BOSS_EXTRUDE1_DEPTH)

    # Sketch2 → Cut-Extrude1 (cut, through all)
    with BuildSketch(Plane(origin=(0, 7, 0), x_dir=(1, 0, 0), z_dir=(0, 1, 0))):
        with Locations(Location((0, 18, 0), (0, 0, 270))):
            Circle(SKETCH2_R)
        with Locations(Location((15.588457268, 9, 0), (0, 0, 270))):
            Circle(SKETCH2_R)
        with Locations(Location((15.588457268, -9, 0), (0, 0, 270))):
            Circle(SKETCH2_R)
        with Locations(Location((0, -18, 0), (0, 0, 270))):
            Circle(SKETCH2_R)
        with Locations(Location((-15.588457268, -9, 0), (0, 0, 270))):
            Circle(SKETCH2_R)
        with Locations(Location((-15.588457268, 9, 0), (0, 0, 270))):
            Circle(SKETCH2_R)
    extrude(amount=-CUT_EXTRUDE1_DEPTH, mode=Mode.SUBTRACT)


solid = part.part
